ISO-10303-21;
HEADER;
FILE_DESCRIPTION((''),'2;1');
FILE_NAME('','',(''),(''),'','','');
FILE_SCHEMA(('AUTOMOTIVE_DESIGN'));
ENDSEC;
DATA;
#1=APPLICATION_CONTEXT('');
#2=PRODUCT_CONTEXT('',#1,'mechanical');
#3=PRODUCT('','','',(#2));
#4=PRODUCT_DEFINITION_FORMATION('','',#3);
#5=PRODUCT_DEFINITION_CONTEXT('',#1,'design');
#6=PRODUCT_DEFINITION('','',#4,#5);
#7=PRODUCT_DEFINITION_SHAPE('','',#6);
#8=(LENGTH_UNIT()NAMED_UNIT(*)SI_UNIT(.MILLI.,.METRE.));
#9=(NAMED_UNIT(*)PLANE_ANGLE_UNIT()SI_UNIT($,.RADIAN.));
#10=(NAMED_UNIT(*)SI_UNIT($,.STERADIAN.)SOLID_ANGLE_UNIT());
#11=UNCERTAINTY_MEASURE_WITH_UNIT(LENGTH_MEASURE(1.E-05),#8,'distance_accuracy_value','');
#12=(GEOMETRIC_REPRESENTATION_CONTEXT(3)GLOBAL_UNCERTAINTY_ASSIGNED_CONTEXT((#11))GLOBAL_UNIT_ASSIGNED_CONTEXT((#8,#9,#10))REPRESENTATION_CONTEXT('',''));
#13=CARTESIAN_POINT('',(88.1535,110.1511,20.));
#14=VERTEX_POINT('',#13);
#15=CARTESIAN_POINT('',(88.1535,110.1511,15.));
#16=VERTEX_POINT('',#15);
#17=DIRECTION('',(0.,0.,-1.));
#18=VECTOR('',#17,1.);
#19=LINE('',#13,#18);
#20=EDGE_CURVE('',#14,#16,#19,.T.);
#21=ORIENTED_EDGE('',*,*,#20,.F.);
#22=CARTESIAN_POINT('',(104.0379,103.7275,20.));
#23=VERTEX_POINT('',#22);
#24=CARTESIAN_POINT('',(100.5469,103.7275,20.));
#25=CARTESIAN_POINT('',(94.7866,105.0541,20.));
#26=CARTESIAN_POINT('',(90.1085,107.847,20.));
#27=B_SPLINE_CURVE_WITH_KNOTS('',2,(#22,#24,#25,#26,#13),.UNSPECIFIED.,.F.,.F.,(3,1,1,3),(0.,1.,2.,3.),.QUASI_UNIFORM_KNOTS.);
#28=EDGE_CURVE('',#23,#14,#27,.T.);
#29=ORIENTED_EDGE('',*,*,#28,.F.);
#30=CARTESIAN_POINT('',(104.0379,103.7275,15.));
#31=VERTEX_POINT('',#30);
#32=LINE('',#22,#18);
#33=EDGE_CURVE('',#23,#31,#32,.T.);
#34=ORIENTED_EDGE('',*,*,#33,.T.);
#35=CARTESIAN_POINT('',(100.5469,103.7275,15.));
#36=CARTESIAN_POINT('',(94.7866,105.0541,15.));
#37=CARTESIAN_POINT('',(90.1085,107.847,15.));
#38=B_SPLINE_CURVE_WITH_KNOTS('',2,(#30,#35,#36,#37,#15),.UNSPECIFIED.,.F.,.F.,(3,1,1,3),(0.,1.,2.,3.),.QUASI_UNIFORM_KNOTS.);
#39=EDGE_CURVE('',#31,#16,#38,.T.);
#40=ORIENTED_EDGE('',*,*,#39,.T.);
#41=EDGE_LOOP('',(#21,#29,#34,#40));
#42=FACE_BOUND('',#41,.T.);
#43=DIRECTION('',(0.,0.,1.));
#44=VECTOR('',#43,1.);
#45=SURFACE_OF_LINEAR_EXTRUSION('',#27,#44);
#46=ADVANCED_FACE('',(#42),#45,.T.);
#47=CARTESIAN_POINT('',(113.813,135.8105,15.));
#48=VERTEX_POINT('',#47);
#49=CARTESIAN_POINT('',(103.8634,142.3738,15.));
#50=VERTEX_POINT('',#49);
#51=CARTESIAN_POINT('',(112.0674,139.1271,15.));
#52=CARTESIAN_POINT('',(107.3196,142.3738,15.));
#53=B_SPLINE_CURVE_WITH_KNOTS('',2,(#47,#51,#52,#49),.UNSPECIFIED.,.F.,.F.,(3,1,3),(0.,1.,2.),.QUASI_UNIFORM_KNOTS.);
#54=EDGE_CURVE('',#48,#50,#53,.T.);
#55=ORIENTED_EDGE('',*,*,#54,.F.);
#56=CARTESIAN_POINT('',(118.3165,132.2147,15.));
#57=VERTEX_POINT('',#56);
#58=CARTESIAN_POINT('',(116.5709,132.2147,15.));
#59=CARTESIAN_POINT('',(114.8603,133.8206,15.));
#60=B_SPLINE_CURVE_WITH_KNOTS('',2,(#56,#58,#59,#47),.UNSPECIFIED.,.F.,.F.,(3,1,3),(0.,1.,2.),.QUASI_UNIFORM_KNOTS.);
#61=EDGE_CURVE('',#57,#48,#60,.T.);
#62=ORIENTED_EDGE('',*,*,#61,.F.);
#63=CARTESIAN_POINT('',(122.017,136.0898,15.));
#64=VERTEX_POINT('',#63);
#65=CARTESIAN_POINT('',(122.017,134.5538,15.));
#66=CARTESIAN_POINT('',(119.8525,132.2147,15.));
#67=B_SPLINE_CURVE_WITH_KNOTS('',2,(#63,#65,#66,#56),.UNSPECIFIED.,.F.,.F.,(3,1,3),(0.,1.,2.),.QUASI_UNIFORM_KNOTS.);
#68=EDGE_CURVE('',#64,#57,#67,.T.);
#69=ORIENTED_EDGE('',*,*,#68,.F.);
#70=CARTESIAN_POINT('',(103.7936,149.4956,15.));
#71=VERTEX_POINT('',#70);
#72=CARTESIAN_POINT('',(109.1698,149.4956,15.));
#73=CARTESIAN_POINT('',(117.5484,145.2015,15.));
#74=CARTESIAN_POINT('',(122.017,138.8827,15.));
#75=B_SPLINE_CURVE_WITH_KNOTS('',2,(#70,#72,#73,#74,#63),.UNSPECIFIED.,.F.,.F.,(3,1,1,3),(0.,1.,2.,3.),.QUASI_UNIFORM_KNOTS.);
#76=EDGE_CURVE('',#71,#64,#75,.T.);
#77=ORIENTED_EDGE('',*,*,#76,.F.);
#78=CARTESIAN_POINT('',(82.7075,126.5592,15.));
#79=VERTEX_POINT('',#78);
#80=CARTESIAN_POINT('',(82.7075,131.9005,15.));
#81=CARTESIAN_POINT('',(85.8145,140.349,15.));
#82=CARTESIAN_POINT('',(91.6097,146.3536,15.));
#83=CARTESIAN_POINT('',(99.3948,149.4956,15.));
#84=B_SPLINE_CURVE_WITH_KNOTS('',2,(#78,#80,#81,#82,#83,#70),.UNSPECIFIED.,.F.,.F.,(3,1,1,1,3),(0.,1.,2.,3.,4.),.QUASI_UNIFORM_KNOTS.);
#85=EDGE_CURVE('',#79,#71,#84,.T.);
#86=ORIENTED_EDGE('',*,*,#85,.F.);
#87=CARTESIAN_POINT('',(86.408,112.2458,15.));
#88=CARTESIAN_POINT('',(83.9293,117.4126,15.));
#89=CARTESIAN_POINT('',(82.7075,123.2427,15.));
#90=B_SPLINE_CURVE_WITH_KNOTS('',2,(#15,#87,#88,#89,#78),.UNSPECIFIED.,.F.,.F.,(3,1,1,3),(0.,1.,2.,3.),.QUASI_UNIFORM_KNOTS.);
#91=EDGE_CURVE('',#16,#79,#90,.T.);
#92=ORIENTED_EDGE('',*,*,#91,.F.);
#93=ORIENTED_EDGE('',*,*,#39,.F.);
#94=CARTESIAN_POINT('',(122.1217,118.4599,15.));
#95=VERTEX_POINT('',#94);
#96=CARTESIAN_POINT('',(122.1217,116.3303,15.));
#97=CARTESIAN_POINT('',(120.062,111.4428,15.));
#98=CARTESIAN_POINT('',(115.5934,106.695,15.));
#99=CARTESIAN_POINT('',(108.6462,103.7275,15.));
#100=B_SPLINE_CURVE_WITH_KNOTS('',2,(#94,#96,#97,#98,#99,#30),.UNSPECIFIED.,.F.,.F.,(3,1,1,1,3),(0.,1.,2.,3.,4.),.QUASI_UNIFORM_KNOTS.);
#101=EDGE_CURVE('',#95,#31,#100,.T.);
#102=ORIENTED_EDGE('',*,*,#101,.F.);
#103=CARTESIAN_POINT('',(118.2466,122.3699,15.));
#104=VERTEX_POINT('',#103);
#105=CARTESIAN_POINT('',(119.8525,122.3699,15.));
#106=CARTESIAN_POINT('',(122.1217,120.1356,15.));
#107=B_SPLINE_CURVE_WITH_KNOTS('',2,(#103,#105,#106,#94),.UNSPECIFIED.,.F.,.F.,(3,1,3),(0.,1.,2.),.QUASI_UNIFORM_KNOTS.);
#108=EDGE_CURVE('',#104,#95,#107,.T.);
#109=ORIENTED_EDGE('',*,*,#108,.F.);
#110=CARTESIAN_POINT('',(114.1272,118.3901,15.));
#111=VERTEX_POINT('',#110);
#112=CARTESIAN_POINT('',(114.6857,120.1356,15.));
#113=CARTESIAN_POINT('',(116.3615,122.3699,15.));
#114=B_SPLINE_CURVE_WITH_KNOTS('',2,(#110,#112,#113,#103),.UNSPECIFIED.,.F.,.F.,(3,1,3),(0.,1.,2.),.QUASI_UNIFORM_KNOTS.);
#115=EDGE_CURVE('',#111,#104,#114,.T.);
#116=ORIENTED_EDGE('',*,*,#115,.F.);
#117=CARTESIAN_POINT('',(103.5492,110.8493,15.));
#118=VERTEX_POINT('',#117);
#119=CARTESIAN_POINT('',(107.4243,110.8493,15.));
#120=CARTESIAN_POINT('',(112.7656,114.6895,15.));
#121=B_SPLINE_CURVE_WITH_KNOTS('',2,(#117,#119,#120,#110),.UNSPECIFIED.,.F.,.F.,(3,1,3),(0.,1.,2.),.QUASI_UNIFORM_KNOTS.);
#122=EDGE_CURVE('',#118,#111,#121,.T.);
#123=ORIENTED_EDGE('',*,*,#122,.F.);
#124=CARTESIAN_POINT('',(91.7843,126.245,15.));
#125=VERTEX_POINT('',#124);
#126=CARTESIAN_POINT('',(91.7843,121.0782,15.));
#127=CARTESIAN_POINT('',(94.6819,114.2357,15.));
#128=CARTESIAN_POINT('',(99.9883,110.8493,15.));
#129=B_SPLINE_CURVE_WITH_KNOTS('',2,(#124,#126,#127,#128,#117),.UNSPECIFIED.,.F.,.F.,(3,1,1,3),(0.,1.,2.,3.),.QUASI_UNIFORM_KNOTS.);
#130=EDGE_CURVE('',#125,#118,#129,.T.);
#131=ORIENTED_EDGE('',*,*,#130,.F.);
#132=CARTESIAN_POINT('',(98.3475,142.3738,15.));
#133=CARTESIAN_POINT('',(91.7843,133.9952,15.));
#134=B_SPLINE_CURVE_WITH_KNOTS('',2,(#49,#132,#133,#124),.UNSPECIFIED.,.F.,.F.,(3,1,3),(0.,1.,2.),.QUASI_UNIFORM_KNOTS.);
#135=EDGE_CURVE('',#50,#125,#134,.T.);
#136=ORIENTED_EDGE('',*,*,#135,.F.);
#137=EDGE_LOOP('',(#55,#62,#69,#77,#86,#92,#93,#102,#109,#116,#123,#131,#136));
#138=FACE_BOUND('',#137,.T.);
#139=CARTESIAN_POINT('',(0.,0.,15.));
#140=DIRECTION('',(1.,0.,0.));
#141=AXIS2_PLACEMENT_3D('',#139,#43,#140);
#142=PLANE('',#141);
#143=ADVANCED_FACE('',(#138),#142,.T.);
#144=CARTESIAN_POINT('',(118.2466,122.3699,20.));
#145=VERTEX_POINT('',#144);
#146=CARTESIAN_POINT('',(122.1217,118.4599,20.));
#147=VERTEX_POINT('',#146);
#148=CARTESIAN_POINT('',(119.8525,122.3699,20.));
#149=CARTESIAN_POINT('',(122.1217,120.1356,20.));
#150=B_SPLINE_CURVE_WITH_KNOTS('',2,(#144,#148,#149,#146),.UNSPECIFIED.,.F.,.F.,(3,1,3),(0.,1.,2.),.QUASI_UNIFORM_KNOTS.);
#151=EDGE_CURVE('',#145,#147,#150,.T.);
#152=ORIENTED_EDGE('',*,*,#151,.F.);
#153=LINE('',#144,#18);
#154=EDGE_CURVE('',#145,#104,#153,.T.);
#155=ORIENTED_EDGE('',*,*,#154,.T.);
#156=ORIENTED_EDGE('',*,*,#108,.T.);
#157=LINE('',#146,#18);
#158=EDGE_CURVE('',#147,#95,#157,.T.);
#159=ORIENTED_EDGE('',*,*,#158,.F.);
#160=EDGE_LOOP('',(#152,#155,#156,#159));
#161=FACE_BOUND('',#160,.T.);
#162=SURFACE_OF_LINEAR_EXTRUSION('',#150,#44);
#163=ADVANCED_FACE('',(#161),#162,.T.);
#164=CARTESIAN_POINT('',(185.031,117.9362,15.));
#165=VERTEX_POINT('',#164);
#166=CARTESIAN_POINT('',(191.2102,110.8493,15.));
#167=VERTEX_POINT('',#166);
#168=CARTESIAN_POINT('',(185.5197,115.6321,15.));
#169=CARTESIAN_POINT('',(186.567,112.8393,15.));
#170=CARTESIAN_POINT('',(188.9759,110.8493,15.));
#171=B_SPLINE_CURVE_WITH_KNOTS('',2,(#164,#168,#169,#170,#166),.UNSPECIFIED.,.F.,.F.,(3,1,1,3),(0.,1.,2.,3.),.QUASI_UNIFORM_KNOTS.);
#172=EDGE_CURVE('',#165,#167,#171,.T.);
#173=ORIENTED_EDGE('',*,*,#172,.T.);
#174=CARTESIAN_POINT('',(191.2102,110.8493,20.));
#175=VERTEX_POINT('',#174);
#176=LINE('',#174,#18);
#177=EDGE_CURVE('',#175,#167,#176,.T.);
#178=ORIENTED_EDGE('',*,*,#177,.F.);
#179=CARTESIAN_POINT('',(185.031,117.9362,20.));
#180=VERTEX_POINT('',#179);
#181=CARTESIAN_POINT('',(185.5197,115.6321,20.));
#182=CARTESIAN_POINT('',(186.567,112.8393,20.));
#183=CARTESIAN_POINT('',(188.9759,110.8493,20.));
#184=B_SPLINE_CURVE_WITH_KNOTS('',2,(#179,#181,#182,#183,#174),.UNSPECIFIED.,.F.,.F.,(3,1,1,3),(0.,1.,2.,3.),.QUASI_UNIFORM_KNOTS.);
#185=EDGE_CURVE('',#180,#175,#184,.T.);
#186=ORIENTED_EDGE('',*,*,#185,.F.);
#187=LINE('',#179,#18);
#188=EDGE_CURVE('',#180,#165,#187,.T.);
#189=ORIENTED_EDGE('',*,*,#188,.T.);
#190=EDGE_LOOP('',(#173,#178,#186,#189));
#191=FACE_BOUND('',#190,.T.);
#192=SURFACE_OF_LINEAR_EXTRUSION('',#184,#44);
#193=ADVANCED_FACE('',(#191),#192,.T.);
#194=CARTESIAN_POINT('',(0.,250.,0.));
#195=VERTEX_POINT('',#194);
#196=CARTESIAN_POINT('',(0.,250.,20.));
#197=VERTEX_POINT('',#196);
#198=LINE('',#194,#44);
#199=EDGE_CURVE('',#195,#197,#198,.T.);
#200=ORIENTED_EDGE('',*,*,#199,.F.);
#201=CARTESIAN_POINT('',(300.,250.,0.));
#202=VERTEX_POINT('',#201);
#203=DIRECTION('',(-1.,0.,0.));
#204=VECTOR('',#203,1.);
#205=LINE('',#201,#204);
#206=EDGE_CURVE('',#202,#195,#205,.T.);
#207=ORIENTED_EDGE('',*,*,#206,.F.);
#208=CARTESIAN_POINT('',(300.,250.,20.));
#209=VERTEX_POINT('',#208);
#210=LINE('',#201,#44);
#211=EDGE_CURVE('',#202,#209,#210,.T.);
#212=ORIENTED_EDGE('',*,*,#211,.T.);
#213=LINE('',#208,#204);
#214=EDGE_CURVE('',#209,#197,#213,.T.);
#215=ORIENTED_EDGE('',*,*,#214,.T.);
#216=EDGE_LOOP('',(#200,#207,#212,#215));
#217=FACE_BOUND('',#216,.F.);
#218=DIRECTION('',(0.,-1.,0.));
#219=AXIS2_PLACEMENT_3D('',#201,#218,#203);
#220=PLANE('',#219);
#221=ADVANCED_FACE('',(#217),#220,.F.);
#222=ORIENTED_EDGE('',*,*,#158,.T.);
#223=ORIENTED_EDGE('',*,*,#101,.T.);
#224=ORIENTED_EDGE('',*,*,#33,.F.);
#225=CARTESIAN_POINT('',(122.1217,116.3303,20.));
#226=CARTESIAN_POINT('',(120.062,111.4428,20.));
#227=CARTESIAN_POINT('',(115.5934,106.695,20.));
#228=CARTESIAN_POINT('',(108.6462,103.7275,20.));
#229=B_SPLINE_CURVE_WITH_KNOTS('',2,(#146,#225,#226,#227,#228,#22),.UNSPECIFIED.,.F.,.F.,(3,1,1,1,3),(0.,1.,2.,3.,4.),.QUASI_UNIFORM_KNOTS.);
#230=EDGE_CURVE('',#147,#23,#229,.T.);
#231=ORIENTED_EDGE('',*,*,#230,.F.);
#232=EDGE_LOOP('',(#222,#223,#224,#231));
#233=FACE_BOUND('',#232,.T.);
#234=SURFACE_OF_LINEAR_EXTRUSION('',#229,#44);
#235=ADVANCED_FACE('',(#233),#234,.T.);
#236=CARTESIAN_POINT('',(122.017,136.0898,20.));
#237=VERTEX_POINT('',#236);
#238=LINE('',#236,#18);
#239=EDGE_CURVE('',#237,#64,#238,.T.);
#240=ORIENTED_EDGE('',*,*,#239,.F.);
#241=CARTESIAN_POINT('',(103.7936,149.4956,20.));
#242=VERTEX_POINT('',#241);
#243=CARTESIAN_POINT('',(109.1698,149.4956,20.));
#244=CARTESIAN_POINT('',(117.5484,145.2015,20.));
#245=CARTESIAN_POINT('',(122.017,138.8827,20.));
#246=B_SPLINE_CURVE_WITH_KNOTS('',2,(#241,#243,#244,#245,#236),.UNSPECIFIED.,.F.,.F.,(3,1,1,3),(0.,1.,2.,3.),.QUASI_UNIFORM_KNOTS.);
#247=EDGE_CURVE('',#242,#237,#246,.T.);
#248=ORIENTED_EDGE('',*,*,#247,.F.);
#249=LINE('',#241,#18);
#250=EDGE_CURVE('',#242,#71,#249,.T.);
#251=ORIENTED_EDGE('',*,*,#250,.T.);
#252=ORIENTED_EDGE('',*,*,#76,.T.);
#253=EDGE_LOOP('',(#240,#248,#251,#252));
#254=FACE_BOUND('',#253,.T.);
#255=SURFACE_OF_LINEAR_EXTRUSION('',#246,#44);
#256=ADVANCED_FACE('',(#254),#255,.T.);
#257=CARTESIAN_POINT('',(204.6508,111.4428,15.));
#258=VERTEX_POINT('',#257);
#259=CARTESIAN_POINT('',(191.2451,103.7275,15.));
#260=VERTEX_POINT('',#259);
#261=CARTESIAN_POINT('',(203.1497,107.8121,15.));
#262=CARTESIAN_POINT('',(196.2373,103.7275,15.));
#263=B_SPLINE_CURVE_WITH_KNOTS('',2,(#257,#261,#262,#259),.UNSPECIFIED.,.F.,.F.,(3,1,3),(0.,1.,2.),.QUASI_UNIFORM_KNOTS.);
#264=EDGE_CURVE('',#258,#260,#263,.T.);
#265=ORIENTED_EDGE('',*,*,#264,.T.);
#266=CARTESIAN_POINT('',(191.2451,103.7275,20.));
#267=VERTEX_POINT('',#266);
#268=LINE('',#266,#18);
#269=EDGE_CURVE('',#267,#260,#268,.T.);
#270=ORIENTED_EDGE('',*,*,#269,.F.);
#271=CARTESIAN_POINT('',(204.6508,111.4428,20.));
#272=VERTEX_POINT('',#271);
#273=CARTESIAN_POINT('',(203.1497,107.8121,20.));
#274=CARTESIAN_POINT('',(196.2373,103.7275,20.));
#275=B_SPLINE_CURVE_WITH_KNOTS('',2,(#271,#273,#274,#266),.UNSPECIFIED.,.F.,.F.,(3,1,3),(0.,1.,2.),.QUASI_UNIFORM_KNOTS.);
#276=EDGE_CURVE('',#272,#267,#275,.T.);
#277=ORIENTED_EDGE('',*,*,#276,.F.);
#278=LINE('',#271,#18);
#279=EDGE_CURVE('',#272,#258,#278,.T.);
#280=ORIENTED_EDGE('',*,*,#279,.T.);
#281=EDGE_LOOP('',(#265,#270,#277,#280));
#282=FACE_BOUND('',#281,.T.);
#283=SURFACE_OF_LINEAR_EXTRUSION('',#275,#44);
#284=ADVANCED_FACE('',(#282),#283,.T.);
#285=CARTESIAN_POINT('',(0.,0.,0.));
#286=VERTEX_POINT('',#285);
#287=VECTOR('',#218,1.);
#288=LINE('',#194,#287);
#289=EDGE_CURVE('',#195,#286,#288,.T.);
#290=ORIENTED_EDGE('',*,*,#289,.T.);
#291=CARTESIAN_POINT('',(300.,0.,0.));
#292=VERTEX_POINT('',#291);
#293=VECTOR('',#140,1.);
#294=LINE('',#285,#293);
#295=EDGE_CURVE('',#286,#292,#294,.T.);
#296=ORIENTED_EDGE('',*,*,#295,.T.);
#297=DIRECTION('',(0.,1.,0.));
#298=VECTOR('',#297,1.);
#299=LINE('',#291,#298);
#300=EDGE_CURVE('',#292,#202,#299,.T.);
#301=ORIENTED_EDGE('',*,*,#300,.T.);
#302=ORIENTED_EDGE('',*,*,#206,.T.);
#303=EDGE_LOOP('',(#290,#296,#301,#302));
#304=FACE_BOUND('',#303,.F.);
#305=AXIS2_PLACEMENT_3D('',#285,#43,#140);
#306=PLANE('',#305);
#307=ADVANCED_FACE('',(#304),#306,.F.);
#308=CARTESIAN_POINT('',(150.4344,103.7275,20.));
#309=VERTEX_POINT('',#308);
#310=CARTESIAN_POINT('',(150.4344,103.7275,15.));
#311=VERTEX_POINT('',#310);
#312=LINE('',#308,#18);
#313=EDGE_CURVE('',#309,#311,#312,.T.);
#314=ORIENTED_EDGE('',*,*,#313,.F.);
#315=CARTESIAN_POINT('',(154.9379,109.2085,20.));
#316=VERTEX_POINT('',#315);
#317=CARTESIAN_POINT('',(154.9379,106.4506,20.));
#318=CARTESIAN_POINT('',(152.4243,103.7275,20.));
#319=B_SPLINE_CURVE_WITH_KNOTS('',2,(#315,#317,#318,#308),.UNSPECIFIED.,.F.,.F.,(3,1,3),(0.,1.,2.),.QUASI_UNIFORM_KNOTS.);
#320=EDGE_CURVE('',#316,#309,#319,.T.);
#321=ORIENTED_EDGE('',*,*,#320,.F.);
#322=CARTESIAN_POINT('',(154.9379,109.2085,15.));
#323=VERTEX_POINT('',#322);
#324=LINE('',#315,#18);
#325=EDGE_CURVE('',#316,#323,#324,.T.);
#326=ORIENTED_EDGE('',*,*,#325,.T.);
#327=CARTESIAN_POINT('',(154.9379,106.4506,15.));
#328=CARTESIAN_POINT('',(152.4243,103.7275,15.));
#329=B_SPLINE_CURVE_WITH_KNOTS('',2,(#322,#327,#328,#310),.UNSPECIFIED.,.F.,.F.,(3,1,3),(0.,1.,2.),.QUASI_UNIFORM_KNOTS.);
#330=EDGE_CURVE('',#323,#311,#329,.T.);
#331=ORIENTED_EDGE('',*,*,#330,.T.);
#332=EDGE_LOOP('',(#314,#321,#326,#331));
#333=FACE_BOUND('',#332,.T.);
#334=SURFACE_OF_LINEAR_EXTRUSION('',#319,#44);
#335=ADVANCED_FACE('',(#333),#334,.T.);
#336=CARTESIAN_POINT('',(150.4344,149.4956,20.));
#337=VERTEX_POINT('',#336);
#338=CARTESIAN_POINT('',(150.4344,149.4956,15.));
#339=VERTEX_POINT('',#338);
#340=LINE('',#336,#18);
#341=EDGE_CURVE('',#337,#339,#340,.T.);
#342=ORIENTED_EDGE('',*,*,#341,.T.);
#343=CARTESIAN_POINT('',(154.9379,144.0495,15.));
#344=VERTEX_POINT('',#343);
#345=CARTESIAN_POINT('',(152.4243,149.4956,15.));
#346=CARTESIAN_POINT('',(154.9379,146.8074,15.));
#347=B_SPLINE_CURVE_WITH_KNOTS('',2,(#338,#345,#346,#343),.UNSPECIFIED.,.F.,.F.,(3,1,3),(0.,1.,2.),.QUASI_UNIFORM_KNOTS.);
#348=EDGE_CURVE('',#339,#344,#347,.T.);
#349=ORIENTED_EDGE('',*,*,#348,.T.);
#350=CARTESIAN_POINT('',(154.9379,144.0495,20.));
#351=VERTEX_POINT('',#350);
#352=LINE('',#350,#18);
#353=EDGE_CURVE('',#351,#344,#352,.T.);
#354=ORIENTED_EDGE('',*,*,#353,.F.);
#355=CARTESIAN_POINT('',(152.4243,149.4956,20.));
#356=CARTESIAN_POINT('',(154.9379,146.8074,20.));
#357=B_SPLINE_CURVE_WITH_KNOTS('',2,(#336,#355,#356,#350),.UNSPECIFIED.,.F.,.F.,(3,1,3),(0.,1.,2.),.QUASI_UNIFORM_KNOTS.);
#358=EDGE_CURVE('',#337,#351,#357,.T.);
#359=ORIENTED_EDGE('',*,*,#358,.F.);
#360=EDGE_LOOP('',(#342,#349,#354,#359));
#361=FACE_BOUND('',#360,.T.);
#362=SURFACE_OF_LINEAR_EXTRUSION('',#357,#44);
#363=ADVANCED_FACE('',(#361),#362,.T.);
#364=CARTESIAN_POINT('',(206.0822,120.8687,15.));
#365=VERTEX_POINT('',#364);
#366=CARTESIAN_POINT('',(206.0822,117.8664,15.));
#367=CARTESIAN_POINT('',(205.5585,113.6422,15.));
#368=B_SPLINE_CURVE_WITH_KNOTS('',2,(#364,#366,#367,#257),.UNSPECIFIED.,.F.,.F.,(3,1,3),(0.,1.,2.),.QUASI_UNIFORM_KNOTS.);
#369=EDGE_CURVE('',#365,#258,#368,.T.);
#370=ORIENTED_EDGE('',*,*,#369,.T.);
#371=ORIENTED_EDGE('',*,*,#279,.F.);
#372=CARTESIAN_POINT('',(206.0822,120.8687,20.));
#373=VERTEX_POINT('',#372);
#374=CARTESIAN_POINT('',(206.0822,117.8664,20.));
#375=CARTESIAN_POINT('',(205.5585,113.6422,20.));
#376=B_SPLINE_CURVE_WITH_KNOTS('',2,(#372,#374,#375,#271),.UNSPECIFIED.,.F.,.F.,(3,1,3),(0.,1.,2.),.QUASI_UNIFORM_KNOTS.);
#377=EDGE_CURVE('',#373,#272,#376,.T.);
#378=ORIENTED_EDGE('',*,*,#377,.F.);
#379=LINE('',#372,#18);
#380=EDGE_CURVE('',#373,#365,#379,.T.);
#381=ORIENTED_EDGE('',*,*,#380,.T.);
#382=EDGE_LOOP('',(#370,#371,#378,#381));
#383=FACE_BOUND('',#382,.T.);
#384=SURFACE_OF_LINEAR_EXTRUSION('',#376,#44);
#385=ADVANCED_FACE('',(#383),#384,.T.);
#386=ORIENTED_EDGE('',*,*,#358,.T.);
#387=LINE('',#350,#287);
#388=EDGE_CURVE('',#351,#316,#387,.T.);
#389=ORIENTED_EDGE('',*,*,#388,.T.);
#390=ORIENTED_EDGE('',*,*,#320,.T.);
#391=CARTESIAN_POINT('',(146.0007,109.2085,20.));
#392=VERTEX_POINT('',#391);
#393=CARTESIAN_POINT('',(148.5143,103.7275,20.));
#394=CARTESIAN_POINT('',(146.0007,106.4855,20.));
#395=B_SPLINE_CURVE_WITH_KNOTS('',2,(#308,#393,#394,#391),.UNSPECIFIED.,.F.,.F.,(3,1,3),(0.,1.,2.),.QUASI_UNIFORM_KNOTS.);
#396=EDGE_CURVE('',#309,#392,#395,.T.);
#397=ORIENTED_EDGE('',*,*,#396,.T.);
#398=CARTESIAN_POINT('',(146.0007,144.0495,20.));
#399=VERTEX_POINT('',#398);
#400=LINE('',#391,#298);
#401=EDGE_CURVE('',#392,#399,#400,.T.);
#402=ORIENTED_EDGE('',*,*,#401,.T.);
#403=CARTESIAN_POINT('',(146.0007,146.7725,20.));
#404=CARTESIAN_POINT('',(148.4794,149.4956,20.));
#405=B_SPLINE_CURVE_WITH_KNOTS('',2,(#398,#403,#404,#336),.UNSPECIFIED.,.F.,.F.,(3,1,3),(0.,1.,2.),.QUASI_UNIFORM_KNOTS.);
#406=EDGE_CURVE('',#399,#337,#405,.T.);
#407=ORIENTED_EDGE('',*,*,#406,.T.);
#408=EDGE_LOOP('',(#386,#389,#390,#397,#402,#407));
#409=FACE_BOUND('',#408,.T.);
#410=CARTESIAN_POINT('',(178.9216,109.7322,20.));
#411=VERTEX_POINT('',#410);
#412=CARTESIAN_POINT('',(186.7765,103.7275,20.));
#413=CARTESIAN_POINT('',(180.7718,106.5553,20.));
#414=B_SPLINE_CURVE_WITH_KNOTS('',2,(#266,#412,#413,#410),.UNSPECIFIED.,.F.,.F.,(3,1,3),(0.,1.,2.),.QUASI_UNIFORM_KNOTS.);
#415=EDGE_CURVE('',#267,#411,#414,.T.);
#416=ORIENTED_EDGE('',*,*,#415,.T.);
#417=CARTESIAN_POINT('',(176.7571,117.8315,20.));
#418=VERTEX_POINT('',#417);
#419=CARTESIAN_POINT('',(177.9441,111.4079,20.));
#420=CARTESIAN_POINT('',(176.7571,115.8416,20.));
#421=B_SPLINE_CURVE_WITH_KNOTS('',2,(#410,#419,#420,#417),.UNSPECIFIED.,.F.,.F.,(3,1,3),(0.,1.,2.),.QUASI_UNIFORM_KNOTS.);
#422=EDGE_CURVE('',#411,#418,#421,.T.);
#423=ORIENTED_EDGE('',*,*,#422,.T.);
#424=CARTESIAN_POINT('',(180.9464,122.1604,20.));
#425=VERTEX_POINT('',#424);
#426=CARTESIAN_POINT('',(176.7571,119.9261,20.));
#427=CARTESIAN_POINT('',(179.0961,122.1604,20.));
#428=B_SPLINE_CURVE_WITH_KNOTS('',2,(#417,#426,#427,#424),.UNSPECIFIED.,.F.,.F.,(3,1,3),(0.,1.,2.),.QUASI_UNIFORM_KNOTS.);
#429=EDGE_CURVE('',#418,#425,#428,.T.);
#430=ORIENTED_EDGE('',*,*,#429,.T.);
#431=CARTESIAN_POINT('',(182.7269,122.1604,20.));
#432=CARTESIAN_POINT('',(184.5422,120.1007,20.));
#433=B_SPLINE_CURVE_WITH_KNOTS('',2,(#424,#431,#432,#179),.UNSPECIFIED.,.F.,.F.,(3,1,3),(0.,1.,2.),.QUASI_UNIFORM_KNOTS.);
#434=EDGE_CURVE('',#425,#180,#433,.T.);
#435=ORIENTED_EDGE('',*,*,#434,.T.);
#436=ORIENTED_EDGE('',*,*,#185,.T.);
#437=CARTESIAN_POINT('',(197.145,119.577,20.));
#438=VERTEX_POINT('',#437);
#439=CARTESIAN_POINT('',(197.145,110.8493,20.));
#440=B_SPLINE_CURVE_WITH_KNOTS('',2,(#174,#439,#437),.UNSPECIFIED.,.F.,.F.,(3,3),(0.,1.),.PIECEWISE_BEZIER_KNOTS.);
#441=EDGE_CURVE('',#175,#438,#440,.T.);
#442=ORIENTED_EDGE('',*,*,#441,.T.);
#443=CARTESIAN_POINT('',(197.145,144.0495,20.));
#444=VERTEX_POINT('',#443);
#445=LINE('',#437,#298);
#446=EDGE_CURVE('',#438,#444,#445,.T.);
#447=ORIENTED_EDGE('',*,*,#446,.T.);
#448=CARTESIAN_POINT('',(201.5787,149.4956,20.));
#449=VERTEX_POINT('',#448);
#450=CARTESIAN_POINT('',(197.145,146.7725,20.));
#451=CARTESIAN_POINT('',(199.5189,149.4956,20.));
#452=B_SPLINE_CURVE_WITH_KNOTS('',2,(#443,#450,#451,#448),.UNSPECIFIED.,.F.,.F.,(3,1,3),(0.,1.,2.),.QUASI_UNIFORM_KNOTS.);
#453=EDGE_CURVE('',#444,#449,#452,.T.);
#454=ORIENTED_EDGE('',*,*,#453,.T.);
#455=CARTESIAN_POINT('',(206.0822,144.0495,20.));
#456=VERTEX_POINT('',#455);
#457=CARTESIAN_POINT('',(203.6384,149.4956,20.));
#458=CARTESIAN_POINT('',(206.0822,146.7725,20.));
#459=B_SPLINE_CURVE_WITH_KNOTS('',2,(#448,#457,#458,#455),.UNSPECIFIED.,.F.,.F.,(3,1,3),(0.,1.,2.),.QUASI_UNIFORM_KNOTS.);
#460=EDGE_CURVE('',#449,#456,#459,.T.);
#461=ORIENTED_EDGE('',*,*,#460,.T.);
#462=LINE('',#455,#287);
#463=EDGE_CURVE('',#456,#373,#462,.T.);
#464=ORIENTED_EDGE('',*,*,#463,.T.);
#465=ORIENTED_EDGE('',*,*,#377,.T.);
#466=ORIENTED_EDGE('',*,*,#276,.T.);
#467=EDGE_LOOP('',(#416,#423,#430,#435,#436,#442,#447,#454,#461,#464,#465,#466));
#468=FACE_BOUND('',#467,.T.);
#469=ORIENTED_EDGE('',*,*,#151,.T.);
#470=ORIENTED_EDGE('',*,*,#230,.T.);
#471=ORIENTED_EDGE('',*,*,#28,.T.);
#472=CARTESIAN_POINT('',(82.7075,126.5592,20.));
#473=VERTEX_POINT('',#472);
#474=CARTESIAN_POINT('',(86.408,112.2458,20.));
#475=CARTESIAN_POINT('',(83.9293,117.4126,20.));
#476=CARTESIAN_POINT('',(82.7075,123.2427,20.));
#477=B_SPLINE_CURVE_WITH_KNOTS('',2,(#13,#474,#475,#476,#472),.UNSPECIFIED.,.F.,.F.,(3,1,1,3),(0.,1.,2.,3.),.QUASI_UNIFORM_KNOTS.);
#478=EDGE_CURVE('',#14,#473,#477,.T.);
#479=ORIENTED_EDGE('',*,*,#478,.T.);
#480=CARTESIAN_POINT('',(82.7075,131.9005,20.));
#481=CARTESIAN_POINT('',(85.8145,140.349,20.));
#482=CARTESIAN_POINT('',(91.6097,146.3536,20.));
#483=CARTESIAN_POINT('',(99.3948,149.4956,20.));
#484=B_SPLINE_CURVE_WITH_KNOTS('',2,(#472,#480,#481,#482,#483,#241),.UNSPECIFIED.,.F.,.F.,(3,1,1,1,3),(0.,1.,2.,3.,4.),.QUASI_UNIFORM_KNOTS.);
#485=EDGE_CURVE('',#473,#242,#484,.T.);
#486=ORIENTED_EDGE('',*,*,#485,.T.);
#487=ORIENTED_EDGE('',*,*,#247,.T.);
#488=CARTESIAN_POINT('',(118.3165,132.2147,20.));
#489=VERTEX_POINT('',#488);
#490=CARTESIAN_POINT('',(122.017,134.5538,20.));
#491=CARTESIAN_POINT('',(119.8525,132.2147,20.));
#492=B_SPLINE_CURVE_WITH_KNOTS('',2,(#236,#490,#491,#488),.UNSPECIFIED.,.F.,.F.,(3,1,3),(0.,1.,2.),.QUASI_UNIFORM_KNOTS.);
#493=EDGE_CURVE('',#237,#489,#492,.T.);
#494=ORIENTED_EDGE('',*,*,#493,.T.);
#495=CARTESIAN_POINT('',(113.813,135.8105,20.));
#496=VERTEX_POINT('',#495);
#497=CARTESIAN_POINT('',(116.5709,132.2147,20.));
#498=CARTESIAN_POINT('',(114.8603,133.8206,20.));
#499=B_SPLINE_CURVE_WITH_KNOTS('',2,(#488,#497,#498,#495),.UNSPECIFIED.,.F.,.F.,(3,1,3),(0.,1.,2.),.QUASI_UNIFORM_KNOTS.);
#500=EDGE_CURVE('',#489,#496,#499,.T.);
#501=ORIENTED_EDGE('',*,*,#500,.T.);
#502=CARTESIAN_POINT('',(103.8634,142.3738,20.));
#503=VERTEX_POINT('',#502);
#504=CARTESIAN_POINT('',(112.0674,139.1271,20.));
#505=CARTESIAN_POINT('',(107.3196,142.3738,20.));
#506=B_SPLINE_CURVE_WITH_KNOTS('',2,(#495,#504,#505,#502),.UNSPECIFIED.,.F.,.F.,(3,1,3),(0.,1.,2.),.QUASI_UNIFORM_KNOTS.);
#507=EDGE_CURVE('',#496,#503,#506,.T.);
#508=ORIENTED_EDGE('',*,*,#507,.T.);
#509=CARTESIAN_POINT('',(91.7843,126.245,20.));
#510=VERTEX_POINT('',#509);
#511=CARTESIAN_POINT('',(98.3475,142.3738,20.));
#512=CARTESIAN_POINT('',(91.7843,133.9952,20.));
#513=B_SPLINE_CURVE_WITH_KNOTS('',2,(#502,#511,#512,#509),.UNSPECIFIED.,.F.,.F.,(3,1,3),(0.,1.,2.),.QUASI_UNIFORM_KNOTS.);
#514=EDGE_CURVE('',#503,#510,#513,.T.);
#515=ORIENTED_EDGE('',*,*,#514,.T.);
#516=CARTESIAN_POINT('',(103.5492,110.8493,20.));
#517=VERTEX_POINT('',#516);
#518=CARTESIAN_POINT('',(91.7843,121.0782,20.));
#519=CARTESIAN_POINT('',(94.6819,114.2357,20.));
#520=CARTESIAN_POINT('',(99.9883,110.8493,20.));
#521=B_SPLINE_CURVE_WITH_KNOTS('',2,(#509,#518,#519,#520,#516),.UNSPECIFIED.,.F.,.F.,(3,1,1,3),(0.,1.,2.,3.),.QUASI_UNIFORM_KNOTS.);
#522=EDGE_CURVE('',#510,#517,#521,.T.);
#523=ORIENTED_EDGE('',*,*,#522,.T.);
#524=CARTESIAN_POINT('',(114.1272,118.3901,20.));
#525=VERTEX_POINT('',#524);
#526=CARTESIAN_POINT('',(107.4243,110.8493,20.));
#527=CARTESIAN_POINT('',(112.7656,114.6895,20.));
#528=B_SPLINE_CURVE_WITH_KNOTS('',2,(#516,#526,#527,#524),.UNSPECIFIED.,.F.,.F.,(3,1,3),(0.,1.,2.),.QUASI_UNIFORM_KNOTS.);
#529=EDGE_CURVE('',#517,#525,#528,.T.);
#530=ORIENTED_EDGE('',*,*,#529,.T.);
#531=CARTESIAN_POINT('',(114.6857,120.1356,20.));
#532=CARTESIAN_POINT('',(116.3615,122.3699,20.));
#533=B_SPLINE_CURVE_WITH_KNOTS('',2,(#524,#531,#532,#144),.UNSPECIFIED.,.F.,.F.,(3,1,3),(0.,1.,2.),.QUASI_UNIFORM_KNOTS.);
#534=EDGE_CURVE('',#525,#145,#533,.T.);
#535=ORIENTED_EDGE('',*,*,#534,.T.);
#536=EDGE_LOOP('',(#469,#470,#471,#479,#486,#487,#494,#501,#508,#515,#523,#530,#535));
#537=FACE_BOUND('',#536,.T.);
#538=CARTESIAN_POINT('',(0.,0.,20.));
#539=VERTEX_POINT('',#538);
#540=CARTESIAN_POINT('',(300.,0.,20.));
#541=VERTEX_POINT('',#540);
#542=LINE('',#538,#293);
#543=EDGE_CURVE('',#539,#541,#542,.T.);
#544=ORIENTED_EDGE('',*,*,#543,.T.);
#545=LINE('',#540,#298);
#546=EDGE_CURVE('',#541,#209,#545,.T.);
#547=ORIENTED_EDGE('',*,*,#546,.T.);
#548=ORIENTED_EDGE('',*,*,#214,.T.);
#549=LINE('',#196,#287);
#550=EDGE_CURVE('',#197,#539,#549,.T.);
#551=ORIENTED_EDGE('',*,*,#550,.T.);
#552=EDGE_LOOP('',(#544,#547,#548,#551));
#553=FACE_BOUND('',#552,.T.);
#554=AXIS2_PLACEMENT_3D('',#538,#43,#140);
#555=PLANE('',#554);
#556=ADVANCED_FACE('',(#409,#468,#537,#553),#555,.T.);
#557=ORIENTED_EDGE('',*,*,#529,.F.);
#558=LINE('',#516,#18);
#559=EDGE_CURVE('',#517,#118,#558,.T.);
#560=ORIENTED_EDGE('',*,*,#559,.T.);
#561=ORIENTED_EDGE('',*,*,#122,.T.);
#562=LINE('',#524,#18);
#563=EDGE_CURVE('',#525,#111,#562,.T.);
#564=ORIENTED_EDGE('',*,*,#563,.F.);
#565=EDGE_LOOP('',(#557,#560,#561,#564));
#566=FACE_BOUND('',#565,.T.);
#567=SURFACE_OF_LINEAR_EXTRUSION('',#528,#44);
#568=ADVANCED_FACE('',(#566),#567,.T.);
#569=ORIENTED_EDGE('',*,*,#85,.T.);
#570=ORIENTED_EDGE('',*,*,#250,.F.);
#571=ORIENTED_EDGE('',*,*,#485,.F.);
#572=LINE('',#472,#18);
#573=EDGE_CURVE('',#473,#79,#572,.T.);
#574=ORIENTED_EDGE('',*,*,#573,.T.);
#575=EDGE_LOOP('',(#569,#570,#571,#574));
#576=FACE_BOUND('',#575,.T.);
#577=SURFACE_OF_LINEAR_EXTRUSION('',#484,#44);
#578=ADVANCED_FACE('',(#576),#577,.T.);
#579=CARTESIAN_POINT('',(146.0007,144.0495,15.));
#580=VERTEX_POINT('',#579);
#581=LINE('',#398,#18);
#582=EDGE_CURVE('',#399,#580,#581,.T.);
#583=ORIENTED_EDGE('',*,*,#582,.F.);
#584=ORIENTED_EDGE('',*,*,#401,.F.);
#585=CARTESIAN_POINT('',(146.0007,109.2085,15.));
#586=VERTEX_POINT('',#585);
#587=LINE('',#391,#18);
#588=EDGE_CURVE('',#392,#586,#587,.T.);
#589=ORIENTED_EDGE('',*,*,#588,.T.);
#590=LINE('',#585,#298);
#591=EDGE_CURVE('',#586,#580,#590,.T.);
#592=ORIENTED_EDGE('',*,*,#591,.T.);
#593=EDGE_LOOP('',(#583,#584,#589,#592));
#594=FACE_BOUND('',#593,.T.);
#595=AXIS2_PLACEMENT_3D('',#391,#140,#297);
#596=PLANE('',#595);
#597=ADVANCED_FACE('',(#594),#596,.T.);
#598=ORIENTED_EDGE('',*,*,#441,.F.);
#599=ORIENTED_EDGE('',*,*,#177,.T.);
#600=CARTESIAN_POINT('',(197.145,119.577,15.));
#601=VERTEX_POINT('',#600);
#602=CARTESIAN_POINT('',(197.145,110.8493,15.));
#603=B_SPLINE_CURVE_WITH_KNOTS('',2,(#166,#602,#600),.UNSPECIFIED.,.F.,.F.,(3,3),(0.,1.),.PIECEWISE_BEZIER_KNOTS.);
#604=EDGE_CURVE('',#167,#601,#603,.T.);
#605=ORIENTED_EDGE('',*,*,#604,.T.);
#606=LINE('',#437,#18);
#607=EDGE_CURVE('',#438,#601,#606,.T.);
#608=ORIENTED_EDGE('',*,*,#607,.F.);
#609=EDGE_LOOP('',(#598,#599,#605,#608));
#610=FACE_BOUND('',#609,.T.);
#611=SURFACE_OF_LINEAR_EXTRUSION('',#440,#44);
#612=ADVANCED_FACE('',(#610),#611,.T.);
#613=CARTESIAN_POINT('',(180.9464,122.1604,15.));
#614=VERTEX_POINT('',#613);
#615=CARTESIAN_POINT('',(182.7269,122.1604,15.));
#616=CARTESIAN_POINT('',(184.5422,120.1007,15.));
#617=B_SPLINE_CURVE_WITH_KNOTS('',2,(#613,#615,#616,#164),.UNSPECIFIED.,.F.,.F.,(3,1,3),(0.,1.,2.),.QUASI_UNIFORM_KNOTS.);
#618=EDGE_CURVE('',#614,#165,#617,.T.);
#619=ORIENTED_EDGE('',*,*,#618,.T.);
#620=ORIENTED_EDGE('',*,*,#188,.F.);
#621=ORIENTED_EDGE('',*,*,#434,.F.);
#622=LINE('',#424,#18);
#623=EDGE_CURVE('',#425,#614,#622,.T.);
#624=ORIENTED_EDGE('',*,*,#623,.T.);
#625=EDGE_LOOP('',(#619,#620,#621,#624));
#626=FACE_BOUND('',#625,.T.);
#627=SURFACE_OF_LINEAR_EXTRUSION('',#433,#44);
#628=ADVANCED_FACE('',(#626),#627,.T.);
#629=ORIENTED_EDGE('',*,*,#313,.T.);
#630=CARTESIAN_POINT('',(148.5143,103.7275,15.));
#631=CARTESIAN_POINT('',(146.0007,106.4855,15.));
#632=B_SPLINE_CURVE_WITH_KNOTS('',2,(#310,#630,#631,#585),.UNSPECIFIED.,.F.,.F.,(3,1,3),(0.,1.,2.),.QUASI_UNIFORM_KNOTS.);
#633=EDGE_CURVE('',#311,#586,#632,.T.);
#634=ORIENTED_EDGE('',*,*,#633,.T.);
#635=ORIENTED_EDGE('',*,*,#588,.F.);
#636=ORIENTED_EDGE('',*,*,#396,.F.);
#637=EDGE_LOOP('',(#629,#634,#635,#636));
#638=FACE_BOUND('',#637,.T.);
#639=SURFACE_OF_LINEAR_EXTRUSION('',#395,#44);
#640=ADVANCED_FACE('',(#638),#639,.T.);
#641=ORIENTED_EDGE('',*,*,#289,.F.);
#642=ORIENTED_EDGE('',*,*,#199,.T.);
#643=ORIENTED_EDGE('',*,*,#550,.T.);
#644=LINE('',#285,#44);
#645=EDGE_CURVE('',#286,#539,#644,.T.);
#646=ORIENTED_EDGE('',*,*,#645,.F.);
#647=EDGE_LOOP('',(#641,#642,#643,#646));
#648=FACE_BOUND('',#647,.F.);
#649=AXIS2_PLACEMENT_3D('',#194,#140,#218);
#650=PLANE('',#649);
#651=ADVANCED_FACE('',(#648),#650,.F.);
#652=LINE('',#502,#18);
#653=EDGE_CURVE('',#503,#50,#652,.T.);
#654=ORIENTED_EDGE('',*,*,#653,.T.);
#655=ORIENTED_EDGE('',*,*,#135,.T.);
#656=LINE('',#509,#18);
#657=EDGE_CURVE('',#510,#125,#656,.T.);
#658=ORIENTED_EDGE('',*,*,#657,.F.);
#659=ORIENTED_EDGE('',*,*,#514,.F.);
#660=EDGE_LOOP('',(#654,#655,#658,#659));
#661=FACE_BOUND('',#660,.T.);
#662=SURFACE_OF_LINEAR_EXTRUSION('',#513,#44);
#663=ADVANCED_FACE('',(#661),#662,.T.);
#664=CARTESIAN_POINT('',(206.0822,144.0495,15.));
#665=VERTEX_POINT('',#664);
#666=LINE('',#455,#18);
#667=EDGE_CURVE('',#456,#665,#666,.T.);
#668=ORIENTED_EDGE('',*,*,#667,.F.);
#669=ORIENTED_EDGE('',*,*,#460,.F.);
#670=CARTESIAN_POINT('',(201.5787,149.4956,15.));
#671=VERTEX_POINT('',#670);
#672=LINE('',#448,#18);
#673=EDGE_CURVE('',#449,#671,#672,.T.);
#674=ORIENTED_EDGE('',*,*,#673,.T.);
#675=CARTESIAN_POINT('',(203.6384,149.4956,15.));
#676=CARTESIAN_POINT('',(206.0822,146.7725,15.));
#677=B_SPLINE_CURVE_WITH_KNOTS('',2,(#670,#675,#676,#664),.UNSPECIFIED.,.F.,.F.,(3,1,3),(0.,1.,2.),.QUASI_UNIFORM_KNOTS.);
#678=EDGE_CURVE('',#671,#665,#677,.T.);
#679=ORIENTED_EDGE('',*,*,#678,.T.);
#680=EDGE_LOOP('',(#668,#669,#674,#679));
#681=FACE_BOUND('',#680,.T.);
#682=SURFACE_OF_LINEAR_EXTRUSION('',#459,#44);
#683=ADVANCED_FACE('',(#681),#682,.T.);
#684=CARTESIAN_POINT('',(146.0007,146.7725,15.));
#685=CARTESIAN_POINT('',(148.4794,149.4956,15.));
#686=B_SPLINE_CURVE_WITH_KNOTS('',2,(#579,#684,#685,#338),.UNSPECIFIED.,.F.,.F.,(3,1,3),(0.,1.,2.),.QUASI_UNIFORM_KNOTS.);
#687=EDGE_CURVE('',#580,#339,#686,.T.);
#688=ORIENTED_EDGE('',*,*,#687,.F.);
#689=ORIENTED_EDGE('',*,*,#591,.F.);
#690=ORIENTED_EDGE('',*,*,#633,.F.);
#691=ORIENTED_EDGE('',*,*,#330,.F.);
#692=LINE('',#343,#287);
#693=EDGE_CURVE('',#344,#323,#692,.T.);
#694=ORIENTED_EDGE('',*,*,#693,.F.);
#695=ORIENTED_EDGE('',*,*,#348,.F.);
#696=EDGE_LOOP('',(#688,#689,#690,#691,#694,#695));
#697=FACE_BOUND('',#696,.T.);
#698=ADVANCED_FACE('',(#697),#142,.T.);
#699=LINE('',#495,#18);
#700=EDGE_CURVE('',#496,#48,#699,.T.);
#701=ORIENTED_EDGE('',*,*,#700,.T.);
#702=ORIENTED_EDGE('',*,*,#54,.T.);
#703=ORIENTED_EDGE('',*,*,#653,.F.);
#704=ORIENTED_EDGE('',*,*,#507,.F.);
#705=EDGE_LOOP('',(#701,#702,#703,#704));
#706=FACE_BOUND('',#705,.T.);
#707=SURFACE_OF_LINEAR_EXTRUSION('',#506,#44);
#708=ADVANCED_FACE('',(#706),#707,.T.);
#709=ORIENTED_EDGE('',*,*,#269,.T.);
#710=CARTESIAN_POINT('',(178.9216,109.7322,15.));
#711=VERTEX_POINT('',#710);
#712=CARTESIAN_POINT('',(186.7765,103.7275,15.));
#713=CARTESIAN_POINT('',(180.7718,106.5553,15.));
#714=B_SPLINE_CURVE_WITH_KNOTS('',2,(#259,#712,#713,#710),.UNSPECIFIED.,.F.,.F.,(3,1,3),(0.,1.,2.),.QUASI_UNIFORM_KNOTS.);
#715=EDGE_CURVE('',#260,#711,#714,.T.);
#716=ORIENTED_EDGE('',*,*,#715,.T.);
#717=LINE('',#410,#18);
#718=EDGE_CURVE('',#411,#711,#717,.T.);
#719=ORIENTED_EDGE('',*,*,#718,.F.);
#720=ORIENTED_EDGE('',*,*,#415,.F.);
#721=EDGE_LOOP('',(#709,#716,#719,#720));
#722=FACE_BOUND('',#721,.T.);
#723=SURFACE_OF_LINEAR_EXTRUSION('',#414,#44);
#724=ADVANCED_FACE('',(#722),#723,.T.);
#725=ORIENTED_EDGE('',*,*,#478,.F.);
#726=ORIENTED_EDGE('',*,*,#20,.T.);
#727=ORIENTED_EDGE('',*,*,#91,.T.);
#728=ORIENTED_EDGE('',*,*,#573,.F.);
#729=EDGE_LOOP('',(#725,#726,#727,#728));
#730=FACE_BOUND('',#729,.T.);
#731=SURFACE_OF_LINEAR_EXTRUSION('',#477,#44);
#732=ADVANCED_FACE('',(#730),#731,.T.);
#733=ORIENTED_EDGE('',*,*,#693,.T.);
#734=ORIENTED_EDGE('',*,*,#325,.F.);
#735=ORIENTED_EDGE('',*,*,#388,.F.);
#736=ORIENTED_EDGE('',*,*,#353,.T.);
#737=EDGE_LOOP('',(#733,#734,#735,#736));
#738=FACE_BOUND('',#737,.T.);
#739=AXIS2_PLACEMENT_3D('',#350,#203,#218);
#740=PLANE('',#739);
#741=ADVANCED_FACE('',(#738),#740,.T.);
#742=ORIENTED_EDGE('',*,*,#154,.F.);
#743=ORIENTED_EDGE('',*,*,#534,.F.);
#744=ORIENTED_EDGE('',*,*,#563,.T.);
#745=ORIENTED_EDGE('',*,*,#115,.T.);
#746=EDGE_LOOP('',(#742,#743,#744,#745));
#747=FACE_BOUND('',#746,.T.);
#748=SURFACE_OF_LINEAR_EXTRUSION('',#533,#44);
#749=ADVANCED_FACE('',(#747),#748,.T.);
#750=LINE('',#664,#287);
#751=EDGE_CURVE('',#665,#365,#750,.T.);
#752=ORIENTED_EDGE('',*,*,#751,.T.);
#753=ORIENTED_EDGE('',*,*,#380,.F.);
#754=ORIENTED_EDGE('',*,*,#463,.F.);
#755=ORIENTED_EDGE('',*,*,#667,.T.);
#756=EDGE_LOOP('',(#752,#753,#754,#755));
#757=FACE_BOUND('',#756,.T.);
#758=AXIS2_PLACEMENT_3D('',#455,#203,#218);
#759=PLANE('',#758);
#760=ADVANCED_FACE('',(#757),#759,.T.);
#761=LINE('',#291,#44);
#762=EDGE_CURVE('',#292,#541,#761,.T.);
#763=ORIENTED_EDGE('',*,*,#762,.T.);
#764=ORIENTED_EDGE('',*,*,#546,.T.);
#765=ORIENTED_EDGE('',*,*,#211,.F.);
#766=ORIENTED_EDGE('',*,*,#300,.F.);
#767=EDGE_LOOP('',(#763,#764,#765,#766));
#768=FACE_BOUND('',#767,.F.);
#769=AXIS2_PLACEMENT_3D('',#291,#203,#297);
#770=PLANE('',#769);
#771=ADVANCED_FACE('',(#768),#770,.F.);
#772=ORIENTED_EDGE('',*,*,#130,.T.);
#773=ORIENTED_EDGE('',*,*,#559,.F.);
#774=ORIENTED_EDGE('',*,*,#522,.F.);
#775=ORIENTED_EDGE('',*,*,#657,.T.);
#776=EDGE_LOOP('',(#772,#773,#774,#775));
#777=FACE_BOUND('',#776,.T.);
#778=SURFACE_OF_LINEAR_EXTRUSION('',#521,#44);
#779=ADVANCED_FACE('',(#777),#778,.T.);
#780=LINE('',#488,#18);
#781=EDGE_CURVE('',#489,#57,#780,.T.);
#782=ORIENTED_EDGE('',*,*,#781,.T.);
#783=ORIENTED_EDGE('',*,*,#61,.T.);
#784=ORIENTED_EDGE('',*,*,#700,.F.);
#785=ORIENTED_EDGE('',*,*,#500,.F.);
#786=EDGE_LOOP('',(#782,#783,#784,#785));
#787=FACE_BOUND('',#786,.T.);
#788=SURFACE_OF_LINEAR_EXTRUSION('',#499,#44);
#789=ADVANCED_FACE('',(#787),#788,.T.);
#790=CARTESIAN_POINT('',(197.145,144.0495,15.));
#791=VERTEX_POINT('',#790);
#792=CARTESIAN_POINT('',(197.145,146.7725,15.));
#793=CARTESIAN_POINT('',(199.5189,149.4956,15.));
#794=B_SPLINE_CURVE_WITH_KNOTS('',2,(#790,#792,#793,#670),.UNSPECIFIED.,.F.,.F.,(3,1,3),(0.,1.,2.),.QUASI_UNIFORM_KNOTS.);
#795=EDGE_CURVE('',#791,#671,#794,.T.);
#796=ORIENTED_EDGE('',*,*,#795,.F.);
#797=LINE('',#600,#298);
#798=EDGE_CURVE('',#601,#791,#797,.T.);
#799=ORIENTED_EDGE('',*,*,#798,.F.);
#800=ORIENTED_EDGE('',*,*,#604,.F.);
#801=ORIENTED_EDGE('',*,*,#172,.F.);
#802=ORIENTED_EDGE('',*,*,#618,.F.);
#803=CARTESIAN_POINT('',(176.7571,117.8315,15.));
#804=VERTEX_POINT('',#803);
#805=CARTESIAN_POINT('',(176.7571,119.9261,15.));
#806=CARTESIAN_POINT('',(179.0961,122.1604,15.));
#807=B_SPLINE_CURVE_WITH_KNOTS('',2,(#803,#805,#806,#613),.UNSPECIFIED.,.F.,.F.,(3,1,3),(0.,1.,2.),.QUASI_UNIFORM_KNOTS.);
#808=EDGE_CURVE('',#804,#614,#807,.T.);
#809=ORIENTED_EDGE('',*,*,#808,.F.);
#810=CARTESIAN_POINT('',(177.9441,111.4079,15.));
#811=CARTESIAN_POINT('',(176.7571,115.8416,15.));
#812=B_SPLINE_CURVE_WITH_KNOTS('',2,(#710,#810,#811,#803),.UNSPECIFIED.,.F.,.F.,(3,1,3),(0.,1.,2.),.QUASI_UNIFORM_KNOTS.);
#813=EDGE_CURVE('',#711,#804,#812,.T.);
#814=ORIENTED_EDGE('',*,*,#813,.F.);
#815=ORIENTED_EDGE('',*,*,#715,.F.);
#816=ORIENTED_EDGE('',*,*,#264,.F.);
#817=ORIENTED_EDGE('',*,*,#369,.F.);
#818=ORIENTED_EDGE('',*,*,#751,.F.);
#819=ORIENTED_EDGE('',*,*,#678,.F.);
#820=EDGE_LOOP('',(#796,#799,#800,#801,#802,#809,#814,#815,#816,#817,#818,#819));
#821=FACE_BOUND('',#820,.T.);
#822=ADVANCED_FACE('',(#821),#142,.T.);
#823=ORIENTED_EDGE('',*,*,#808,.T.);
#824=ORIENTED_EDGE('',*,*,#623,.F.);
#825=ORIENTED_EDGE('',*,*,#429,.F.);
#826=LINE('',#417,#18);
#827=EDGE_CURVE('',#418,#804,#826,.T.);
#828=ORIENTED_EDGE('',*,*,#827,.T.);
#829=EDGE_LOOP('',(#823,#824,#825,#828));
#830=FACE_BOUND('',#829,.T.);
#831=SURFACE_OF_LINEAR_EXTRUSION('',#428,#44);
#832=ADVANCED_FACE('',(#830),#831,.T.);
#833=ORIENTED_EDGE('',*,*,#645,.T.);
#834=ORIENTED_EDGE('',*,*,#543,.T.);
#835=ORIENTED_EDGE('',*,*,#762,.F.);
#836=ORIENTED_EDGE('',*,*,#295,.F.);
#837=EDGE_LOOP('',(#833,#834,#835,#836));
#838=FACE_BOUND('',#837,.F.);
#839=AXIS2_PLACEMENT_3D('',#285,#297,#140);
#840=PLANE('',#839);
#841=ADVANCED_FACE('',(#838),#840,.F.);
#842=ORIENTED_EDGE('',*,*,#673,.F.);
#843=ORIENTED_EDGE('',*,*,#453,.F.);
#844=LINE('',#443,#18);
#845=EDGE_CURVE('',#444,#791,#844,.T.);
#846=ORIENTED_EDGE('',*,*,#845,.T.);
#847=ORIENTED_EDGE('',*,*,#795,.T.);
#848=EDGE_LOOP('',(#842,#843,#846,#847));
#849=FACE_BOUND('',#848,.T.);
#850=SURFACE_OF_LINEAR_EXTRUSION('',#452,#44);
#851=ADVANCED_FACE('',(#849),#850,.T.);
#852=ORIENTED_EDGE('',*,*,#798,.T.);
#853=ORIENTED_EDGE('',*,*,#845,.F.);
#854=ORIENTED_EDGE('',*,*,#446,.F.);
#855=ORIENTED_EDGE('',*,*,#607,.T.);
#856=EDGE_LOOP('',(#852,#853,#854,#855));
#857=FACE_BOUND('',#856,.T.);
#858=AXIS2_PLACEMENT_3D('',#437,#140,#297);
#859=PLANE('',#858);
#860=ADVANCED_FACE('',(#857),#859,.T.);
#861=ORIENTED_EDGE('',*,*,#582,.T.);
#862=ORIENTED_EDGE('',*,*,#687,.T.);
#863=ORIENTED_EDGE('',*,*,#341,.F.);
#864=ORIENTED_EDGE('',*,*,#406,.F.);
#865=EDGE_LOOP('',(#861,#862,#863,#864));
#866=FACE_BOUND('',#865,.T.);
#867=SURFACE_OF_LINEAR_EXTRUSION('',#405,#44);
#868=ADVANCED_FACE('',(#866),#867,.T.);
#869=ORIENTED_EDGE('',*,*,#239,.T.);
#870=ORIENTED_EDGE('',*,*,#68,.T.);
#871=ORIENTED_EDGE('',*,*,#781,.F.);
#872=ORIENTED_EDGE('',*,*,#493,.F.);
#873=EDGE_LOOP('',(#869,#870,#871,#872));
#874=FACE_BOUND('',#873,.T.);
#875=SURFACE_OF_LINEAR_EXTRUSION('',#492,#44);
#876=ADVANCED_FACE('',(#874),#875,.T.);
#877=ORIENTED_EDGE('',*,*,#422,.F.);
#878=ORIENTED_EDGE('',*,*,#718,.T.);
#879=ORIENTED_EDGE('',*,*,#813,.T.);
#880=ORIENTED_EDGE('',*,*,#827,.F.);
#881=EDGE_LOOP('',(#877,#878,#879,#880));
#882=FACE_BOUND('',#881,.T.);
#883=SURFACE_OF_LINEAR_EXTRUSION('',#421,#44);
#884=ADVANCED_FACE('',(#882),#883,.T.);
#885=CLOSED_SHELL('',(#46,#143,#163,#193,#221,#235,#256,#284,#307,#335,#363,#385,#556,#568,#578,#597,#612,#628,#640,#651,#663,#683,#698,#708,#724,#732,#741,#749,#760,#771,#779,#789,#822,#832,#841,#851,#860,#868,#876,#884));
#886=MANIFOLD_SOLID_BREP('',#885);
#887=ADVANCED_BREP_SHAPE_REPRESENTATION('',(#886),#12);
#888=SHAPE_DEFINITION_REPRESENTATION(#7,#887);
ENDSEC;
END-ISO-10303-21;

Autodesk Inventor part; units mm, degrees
ref_plane "YZ Plane" through (0, 0, 0) normal (1, 0, 0) x (0, 1, 0)
ref_plane "XZ Plane" through (0, 0, 0) normal (0, 1, 0) x (-1, 0, 0)
ref_plane "XY Plane" through (0, 0, 0) normal (0, 0, 1) x (1, 0, 0)
sketch "Boceto1" plane through (0, 0, 0) normal (0, 0, 1) x (1, 0, 0)
  line L0 (0, 0) -> (300, 0)
  line L1 (300, 0) -> (300, 250)
  line L2 (300, 250) -> (0, 250)
  line L3 (0, 250) -> (0, 0)
  dimension "d0" = 300
  dimension "d1" = 250
extrude "Extrusión1" add sketch "Boceto1" along normal blind 20
sketch "Boceto2" plane through (0, 0, 20) normal (0, 0, 1) x (1, 0, 0)
  line L0 (79.6353, 149.4956) -> (210.9697, 149.4956) construction
  line L1 (210.9697, 149.4956) -> (210.9697, 103.7275) construction
  line L2 (210.9697, 103.7275) -> (79.6353, 103.7275) construction
  line L3 (79.6353, 103.7275) -> (79.6353, 149.4956) construction
  spline S0 degree 2 poles (122.1217, 118.4599) (122.1217, 116.3303) (120.062, 111.4428) (115.5934, 106.695) (108.6462, 103.7275) (104.0379, 103.7275) knots 0 0 0 1 2 3 4 4 4
  spline S1 degree 2 poles (104.0379, 103.7275) (100.5469, 103.7275) (94.7866, 105.0541) (90.1085, 107.847) (88.1535, 110.1511) knots 0 0 0 1 2 3 3 3
  spline S2 degree 2 poles (88.1535, 110.1511) (86.408, 112.2458) (83.9293, 117.4126) (82.7075, 123.2427) (82.7075, 126.5592) knots 0 0 0 1 2 3 3 3
  spline S3 degree 2 poles (82.7075, 126.5592) (82.7075, 131.9005) (85.8145, 140.349) (91.6097, 146.3536) (99.3948, 149.4956) (103.7936, 149.4956) knots 0 0 0 1 2 3 4 4 4
  spline S4 degree 2 poles (103.7936, 149.4956) (109.1698, 149.4956) (117.5484, 145.2015) (122.017, 138.8827) (122.017, 136.0898) knots 0 0 0 1 2 3 3 3
  spline S5 degree 2 poles (122.017, 136.0898) (122.017, 134.5538) (119.8525, 132.2147) (118.3165, 132.2147) knots 0 0 0 1 2 2 2
  spline S6 degree 2 poles (118.3165, 132.2147) (116.5709, 132.2147) (114.8603, 133.8206) (113.813, 135.8105) knots 0 0 0 1 2 2 2
  spline S7 degree 2 poles (113.813, 135.8105) (112.0674, 139.1271) (107.3196, 142.3738) (103.8634, 142.3738) knots 0 0 0 1 2 2 2
  spline S8 degree 2 poles (103.8634, 142.3738) (98.3475, 142.3738) (91.7843, 133.9952) (91.7843, 126.245) knots 0 0 0 1 2 2 2
  spline S9 degree 2 poles (91.7843, 126.245) (91.7843, 121.0782) (94.6819, 114.2357) (99.9883, 110.8493) (103.5492, 110.8493) knots 0 0 0 1 2 3 3 3
  spline S10 degree 2 poles (103.5492, 110.8493) (107.4243, 110.8493) (112.7656, 114.6895) (114.1272, 118.3901) knots 0 0 0 1 2 2 2
  spline S11 degree 2 poles (114.1272, 118.3901) (114.6857, 120.1356) (116.3615, 122.3699) (118.2466, 122.3699) knots 0 0 0 1 2 2 2
  spline S12 degree 2 poles (118.2466, 122.3699) (119.8525, 122.3699) (122.1217, 120.1356) (122.1217, 118.4599) knots 0 0 0 1 2 2 2
  line L4 (146.0007, 109.2085) -> (146.0007, 144.0495)
  spline S13 degree 2 poles (146.0007, 144.0495) (146.0007, 146.7725) (148.4794, 149.4956) (150.4344, 149.4956) knots 0 0 0 1 2 2 2
  spline S14 degree 2 poles (150.4344, 149.4956) (152.4243, 149.4956) (154.9379, 146.8074) (154.9379, 144.0495) knots 0 0 0 1 2 2 2
  line L5 (154.9379, 144.0495) -> (154.9379, 109.2085)
  spline S15 degree 2 poles (154.9379, 109.2085) (154.9379, 106.4506) (152.4243, 103.7275) (150.4344, 103.7275) knots 0 0 0 1 2 2 2
  spline S16 degree 2 poles (150.4344, 103.7275) (148.5143, 103.7275) (146.0007, 106.4855) (146.0007, 109.2085) knots 0 0 0 1 2 2 2
  line L6 (206.0822, 144.0495) -> (206.0822, 120.8687)
  spline S17 degree 2 poles (206.0822, 120.8687) (206.0822, 117.8664) (205.5585, 113.6422) (204.6508, 111.4428) knots 0 0 0 1 2 2 2
  spline S18 degree 2 poles (204.6508, 111.4428) (203.1497, 107.8121) (196.2373, 103.7275) (191.2451, 103.7275) knots 0 0 0 1 2 2 2
  spline S19 degree 2 poles (191.2451, 103.7275) (186.7765, 103.7275) (180.7718, 106.5553) (178.9216, 109.7322) knots 0 0 0 1 2 2 2
  spline S20 degree 2 poles (178.9216, 109.7322) (177.9441, 111.4079) (176.7571, 115.8416) (176.7571, 117.8315) knots 0 0 0 1 2 2 2
  spline S21 degree 2 poles (176.7571, 117.8315) (176.7571, 119.9261) (179.0961, 122.1604) (180.9464, 122.1604) knots 0 0 0 1 2 2 2
  spline S22 degree 2 poles (180.9464, 122.1604) (182.7269, 122.1604) (184.5422, 120.1007) (185.031, 117.9362) knots 0 0 0 1 2 2 2
  spline S23 degree 2 poles (185.031, 117.9362) (185.5197, 115.6321) (186.567, 112.8393) (188.9759, 110.8493) (191.2102, 110.8493) knots 0 0 0 1 2 3 3 3
  spline S24 degree 2 poles (191.2102, 110.8493) (197.145, 110.8493) (197.145, 119.577) knots 0 0 0 1 1 1
  line L7 (197.145, 119.577) -> (197.145, 144.0495)
  spline S25 degree 2 poles (197.145, 144.0495) (197.145, 146.7725) (199.5189, 149.4956) (201.5787, 149.4956) knots 0 0 0 1 2 2 2
  spline S26 degree 2 poles (201.5787, 149.4956) (203.6384, 149.4956) (206.0822, 146.7725) (206.0822, 144.0495) knots 0 0 0 1 2 2 2
  point P0 (0, 0)
extrude "Extrusión2" cut sketch "Boceto2" against normal blind 5
properties part number "CIJ"
